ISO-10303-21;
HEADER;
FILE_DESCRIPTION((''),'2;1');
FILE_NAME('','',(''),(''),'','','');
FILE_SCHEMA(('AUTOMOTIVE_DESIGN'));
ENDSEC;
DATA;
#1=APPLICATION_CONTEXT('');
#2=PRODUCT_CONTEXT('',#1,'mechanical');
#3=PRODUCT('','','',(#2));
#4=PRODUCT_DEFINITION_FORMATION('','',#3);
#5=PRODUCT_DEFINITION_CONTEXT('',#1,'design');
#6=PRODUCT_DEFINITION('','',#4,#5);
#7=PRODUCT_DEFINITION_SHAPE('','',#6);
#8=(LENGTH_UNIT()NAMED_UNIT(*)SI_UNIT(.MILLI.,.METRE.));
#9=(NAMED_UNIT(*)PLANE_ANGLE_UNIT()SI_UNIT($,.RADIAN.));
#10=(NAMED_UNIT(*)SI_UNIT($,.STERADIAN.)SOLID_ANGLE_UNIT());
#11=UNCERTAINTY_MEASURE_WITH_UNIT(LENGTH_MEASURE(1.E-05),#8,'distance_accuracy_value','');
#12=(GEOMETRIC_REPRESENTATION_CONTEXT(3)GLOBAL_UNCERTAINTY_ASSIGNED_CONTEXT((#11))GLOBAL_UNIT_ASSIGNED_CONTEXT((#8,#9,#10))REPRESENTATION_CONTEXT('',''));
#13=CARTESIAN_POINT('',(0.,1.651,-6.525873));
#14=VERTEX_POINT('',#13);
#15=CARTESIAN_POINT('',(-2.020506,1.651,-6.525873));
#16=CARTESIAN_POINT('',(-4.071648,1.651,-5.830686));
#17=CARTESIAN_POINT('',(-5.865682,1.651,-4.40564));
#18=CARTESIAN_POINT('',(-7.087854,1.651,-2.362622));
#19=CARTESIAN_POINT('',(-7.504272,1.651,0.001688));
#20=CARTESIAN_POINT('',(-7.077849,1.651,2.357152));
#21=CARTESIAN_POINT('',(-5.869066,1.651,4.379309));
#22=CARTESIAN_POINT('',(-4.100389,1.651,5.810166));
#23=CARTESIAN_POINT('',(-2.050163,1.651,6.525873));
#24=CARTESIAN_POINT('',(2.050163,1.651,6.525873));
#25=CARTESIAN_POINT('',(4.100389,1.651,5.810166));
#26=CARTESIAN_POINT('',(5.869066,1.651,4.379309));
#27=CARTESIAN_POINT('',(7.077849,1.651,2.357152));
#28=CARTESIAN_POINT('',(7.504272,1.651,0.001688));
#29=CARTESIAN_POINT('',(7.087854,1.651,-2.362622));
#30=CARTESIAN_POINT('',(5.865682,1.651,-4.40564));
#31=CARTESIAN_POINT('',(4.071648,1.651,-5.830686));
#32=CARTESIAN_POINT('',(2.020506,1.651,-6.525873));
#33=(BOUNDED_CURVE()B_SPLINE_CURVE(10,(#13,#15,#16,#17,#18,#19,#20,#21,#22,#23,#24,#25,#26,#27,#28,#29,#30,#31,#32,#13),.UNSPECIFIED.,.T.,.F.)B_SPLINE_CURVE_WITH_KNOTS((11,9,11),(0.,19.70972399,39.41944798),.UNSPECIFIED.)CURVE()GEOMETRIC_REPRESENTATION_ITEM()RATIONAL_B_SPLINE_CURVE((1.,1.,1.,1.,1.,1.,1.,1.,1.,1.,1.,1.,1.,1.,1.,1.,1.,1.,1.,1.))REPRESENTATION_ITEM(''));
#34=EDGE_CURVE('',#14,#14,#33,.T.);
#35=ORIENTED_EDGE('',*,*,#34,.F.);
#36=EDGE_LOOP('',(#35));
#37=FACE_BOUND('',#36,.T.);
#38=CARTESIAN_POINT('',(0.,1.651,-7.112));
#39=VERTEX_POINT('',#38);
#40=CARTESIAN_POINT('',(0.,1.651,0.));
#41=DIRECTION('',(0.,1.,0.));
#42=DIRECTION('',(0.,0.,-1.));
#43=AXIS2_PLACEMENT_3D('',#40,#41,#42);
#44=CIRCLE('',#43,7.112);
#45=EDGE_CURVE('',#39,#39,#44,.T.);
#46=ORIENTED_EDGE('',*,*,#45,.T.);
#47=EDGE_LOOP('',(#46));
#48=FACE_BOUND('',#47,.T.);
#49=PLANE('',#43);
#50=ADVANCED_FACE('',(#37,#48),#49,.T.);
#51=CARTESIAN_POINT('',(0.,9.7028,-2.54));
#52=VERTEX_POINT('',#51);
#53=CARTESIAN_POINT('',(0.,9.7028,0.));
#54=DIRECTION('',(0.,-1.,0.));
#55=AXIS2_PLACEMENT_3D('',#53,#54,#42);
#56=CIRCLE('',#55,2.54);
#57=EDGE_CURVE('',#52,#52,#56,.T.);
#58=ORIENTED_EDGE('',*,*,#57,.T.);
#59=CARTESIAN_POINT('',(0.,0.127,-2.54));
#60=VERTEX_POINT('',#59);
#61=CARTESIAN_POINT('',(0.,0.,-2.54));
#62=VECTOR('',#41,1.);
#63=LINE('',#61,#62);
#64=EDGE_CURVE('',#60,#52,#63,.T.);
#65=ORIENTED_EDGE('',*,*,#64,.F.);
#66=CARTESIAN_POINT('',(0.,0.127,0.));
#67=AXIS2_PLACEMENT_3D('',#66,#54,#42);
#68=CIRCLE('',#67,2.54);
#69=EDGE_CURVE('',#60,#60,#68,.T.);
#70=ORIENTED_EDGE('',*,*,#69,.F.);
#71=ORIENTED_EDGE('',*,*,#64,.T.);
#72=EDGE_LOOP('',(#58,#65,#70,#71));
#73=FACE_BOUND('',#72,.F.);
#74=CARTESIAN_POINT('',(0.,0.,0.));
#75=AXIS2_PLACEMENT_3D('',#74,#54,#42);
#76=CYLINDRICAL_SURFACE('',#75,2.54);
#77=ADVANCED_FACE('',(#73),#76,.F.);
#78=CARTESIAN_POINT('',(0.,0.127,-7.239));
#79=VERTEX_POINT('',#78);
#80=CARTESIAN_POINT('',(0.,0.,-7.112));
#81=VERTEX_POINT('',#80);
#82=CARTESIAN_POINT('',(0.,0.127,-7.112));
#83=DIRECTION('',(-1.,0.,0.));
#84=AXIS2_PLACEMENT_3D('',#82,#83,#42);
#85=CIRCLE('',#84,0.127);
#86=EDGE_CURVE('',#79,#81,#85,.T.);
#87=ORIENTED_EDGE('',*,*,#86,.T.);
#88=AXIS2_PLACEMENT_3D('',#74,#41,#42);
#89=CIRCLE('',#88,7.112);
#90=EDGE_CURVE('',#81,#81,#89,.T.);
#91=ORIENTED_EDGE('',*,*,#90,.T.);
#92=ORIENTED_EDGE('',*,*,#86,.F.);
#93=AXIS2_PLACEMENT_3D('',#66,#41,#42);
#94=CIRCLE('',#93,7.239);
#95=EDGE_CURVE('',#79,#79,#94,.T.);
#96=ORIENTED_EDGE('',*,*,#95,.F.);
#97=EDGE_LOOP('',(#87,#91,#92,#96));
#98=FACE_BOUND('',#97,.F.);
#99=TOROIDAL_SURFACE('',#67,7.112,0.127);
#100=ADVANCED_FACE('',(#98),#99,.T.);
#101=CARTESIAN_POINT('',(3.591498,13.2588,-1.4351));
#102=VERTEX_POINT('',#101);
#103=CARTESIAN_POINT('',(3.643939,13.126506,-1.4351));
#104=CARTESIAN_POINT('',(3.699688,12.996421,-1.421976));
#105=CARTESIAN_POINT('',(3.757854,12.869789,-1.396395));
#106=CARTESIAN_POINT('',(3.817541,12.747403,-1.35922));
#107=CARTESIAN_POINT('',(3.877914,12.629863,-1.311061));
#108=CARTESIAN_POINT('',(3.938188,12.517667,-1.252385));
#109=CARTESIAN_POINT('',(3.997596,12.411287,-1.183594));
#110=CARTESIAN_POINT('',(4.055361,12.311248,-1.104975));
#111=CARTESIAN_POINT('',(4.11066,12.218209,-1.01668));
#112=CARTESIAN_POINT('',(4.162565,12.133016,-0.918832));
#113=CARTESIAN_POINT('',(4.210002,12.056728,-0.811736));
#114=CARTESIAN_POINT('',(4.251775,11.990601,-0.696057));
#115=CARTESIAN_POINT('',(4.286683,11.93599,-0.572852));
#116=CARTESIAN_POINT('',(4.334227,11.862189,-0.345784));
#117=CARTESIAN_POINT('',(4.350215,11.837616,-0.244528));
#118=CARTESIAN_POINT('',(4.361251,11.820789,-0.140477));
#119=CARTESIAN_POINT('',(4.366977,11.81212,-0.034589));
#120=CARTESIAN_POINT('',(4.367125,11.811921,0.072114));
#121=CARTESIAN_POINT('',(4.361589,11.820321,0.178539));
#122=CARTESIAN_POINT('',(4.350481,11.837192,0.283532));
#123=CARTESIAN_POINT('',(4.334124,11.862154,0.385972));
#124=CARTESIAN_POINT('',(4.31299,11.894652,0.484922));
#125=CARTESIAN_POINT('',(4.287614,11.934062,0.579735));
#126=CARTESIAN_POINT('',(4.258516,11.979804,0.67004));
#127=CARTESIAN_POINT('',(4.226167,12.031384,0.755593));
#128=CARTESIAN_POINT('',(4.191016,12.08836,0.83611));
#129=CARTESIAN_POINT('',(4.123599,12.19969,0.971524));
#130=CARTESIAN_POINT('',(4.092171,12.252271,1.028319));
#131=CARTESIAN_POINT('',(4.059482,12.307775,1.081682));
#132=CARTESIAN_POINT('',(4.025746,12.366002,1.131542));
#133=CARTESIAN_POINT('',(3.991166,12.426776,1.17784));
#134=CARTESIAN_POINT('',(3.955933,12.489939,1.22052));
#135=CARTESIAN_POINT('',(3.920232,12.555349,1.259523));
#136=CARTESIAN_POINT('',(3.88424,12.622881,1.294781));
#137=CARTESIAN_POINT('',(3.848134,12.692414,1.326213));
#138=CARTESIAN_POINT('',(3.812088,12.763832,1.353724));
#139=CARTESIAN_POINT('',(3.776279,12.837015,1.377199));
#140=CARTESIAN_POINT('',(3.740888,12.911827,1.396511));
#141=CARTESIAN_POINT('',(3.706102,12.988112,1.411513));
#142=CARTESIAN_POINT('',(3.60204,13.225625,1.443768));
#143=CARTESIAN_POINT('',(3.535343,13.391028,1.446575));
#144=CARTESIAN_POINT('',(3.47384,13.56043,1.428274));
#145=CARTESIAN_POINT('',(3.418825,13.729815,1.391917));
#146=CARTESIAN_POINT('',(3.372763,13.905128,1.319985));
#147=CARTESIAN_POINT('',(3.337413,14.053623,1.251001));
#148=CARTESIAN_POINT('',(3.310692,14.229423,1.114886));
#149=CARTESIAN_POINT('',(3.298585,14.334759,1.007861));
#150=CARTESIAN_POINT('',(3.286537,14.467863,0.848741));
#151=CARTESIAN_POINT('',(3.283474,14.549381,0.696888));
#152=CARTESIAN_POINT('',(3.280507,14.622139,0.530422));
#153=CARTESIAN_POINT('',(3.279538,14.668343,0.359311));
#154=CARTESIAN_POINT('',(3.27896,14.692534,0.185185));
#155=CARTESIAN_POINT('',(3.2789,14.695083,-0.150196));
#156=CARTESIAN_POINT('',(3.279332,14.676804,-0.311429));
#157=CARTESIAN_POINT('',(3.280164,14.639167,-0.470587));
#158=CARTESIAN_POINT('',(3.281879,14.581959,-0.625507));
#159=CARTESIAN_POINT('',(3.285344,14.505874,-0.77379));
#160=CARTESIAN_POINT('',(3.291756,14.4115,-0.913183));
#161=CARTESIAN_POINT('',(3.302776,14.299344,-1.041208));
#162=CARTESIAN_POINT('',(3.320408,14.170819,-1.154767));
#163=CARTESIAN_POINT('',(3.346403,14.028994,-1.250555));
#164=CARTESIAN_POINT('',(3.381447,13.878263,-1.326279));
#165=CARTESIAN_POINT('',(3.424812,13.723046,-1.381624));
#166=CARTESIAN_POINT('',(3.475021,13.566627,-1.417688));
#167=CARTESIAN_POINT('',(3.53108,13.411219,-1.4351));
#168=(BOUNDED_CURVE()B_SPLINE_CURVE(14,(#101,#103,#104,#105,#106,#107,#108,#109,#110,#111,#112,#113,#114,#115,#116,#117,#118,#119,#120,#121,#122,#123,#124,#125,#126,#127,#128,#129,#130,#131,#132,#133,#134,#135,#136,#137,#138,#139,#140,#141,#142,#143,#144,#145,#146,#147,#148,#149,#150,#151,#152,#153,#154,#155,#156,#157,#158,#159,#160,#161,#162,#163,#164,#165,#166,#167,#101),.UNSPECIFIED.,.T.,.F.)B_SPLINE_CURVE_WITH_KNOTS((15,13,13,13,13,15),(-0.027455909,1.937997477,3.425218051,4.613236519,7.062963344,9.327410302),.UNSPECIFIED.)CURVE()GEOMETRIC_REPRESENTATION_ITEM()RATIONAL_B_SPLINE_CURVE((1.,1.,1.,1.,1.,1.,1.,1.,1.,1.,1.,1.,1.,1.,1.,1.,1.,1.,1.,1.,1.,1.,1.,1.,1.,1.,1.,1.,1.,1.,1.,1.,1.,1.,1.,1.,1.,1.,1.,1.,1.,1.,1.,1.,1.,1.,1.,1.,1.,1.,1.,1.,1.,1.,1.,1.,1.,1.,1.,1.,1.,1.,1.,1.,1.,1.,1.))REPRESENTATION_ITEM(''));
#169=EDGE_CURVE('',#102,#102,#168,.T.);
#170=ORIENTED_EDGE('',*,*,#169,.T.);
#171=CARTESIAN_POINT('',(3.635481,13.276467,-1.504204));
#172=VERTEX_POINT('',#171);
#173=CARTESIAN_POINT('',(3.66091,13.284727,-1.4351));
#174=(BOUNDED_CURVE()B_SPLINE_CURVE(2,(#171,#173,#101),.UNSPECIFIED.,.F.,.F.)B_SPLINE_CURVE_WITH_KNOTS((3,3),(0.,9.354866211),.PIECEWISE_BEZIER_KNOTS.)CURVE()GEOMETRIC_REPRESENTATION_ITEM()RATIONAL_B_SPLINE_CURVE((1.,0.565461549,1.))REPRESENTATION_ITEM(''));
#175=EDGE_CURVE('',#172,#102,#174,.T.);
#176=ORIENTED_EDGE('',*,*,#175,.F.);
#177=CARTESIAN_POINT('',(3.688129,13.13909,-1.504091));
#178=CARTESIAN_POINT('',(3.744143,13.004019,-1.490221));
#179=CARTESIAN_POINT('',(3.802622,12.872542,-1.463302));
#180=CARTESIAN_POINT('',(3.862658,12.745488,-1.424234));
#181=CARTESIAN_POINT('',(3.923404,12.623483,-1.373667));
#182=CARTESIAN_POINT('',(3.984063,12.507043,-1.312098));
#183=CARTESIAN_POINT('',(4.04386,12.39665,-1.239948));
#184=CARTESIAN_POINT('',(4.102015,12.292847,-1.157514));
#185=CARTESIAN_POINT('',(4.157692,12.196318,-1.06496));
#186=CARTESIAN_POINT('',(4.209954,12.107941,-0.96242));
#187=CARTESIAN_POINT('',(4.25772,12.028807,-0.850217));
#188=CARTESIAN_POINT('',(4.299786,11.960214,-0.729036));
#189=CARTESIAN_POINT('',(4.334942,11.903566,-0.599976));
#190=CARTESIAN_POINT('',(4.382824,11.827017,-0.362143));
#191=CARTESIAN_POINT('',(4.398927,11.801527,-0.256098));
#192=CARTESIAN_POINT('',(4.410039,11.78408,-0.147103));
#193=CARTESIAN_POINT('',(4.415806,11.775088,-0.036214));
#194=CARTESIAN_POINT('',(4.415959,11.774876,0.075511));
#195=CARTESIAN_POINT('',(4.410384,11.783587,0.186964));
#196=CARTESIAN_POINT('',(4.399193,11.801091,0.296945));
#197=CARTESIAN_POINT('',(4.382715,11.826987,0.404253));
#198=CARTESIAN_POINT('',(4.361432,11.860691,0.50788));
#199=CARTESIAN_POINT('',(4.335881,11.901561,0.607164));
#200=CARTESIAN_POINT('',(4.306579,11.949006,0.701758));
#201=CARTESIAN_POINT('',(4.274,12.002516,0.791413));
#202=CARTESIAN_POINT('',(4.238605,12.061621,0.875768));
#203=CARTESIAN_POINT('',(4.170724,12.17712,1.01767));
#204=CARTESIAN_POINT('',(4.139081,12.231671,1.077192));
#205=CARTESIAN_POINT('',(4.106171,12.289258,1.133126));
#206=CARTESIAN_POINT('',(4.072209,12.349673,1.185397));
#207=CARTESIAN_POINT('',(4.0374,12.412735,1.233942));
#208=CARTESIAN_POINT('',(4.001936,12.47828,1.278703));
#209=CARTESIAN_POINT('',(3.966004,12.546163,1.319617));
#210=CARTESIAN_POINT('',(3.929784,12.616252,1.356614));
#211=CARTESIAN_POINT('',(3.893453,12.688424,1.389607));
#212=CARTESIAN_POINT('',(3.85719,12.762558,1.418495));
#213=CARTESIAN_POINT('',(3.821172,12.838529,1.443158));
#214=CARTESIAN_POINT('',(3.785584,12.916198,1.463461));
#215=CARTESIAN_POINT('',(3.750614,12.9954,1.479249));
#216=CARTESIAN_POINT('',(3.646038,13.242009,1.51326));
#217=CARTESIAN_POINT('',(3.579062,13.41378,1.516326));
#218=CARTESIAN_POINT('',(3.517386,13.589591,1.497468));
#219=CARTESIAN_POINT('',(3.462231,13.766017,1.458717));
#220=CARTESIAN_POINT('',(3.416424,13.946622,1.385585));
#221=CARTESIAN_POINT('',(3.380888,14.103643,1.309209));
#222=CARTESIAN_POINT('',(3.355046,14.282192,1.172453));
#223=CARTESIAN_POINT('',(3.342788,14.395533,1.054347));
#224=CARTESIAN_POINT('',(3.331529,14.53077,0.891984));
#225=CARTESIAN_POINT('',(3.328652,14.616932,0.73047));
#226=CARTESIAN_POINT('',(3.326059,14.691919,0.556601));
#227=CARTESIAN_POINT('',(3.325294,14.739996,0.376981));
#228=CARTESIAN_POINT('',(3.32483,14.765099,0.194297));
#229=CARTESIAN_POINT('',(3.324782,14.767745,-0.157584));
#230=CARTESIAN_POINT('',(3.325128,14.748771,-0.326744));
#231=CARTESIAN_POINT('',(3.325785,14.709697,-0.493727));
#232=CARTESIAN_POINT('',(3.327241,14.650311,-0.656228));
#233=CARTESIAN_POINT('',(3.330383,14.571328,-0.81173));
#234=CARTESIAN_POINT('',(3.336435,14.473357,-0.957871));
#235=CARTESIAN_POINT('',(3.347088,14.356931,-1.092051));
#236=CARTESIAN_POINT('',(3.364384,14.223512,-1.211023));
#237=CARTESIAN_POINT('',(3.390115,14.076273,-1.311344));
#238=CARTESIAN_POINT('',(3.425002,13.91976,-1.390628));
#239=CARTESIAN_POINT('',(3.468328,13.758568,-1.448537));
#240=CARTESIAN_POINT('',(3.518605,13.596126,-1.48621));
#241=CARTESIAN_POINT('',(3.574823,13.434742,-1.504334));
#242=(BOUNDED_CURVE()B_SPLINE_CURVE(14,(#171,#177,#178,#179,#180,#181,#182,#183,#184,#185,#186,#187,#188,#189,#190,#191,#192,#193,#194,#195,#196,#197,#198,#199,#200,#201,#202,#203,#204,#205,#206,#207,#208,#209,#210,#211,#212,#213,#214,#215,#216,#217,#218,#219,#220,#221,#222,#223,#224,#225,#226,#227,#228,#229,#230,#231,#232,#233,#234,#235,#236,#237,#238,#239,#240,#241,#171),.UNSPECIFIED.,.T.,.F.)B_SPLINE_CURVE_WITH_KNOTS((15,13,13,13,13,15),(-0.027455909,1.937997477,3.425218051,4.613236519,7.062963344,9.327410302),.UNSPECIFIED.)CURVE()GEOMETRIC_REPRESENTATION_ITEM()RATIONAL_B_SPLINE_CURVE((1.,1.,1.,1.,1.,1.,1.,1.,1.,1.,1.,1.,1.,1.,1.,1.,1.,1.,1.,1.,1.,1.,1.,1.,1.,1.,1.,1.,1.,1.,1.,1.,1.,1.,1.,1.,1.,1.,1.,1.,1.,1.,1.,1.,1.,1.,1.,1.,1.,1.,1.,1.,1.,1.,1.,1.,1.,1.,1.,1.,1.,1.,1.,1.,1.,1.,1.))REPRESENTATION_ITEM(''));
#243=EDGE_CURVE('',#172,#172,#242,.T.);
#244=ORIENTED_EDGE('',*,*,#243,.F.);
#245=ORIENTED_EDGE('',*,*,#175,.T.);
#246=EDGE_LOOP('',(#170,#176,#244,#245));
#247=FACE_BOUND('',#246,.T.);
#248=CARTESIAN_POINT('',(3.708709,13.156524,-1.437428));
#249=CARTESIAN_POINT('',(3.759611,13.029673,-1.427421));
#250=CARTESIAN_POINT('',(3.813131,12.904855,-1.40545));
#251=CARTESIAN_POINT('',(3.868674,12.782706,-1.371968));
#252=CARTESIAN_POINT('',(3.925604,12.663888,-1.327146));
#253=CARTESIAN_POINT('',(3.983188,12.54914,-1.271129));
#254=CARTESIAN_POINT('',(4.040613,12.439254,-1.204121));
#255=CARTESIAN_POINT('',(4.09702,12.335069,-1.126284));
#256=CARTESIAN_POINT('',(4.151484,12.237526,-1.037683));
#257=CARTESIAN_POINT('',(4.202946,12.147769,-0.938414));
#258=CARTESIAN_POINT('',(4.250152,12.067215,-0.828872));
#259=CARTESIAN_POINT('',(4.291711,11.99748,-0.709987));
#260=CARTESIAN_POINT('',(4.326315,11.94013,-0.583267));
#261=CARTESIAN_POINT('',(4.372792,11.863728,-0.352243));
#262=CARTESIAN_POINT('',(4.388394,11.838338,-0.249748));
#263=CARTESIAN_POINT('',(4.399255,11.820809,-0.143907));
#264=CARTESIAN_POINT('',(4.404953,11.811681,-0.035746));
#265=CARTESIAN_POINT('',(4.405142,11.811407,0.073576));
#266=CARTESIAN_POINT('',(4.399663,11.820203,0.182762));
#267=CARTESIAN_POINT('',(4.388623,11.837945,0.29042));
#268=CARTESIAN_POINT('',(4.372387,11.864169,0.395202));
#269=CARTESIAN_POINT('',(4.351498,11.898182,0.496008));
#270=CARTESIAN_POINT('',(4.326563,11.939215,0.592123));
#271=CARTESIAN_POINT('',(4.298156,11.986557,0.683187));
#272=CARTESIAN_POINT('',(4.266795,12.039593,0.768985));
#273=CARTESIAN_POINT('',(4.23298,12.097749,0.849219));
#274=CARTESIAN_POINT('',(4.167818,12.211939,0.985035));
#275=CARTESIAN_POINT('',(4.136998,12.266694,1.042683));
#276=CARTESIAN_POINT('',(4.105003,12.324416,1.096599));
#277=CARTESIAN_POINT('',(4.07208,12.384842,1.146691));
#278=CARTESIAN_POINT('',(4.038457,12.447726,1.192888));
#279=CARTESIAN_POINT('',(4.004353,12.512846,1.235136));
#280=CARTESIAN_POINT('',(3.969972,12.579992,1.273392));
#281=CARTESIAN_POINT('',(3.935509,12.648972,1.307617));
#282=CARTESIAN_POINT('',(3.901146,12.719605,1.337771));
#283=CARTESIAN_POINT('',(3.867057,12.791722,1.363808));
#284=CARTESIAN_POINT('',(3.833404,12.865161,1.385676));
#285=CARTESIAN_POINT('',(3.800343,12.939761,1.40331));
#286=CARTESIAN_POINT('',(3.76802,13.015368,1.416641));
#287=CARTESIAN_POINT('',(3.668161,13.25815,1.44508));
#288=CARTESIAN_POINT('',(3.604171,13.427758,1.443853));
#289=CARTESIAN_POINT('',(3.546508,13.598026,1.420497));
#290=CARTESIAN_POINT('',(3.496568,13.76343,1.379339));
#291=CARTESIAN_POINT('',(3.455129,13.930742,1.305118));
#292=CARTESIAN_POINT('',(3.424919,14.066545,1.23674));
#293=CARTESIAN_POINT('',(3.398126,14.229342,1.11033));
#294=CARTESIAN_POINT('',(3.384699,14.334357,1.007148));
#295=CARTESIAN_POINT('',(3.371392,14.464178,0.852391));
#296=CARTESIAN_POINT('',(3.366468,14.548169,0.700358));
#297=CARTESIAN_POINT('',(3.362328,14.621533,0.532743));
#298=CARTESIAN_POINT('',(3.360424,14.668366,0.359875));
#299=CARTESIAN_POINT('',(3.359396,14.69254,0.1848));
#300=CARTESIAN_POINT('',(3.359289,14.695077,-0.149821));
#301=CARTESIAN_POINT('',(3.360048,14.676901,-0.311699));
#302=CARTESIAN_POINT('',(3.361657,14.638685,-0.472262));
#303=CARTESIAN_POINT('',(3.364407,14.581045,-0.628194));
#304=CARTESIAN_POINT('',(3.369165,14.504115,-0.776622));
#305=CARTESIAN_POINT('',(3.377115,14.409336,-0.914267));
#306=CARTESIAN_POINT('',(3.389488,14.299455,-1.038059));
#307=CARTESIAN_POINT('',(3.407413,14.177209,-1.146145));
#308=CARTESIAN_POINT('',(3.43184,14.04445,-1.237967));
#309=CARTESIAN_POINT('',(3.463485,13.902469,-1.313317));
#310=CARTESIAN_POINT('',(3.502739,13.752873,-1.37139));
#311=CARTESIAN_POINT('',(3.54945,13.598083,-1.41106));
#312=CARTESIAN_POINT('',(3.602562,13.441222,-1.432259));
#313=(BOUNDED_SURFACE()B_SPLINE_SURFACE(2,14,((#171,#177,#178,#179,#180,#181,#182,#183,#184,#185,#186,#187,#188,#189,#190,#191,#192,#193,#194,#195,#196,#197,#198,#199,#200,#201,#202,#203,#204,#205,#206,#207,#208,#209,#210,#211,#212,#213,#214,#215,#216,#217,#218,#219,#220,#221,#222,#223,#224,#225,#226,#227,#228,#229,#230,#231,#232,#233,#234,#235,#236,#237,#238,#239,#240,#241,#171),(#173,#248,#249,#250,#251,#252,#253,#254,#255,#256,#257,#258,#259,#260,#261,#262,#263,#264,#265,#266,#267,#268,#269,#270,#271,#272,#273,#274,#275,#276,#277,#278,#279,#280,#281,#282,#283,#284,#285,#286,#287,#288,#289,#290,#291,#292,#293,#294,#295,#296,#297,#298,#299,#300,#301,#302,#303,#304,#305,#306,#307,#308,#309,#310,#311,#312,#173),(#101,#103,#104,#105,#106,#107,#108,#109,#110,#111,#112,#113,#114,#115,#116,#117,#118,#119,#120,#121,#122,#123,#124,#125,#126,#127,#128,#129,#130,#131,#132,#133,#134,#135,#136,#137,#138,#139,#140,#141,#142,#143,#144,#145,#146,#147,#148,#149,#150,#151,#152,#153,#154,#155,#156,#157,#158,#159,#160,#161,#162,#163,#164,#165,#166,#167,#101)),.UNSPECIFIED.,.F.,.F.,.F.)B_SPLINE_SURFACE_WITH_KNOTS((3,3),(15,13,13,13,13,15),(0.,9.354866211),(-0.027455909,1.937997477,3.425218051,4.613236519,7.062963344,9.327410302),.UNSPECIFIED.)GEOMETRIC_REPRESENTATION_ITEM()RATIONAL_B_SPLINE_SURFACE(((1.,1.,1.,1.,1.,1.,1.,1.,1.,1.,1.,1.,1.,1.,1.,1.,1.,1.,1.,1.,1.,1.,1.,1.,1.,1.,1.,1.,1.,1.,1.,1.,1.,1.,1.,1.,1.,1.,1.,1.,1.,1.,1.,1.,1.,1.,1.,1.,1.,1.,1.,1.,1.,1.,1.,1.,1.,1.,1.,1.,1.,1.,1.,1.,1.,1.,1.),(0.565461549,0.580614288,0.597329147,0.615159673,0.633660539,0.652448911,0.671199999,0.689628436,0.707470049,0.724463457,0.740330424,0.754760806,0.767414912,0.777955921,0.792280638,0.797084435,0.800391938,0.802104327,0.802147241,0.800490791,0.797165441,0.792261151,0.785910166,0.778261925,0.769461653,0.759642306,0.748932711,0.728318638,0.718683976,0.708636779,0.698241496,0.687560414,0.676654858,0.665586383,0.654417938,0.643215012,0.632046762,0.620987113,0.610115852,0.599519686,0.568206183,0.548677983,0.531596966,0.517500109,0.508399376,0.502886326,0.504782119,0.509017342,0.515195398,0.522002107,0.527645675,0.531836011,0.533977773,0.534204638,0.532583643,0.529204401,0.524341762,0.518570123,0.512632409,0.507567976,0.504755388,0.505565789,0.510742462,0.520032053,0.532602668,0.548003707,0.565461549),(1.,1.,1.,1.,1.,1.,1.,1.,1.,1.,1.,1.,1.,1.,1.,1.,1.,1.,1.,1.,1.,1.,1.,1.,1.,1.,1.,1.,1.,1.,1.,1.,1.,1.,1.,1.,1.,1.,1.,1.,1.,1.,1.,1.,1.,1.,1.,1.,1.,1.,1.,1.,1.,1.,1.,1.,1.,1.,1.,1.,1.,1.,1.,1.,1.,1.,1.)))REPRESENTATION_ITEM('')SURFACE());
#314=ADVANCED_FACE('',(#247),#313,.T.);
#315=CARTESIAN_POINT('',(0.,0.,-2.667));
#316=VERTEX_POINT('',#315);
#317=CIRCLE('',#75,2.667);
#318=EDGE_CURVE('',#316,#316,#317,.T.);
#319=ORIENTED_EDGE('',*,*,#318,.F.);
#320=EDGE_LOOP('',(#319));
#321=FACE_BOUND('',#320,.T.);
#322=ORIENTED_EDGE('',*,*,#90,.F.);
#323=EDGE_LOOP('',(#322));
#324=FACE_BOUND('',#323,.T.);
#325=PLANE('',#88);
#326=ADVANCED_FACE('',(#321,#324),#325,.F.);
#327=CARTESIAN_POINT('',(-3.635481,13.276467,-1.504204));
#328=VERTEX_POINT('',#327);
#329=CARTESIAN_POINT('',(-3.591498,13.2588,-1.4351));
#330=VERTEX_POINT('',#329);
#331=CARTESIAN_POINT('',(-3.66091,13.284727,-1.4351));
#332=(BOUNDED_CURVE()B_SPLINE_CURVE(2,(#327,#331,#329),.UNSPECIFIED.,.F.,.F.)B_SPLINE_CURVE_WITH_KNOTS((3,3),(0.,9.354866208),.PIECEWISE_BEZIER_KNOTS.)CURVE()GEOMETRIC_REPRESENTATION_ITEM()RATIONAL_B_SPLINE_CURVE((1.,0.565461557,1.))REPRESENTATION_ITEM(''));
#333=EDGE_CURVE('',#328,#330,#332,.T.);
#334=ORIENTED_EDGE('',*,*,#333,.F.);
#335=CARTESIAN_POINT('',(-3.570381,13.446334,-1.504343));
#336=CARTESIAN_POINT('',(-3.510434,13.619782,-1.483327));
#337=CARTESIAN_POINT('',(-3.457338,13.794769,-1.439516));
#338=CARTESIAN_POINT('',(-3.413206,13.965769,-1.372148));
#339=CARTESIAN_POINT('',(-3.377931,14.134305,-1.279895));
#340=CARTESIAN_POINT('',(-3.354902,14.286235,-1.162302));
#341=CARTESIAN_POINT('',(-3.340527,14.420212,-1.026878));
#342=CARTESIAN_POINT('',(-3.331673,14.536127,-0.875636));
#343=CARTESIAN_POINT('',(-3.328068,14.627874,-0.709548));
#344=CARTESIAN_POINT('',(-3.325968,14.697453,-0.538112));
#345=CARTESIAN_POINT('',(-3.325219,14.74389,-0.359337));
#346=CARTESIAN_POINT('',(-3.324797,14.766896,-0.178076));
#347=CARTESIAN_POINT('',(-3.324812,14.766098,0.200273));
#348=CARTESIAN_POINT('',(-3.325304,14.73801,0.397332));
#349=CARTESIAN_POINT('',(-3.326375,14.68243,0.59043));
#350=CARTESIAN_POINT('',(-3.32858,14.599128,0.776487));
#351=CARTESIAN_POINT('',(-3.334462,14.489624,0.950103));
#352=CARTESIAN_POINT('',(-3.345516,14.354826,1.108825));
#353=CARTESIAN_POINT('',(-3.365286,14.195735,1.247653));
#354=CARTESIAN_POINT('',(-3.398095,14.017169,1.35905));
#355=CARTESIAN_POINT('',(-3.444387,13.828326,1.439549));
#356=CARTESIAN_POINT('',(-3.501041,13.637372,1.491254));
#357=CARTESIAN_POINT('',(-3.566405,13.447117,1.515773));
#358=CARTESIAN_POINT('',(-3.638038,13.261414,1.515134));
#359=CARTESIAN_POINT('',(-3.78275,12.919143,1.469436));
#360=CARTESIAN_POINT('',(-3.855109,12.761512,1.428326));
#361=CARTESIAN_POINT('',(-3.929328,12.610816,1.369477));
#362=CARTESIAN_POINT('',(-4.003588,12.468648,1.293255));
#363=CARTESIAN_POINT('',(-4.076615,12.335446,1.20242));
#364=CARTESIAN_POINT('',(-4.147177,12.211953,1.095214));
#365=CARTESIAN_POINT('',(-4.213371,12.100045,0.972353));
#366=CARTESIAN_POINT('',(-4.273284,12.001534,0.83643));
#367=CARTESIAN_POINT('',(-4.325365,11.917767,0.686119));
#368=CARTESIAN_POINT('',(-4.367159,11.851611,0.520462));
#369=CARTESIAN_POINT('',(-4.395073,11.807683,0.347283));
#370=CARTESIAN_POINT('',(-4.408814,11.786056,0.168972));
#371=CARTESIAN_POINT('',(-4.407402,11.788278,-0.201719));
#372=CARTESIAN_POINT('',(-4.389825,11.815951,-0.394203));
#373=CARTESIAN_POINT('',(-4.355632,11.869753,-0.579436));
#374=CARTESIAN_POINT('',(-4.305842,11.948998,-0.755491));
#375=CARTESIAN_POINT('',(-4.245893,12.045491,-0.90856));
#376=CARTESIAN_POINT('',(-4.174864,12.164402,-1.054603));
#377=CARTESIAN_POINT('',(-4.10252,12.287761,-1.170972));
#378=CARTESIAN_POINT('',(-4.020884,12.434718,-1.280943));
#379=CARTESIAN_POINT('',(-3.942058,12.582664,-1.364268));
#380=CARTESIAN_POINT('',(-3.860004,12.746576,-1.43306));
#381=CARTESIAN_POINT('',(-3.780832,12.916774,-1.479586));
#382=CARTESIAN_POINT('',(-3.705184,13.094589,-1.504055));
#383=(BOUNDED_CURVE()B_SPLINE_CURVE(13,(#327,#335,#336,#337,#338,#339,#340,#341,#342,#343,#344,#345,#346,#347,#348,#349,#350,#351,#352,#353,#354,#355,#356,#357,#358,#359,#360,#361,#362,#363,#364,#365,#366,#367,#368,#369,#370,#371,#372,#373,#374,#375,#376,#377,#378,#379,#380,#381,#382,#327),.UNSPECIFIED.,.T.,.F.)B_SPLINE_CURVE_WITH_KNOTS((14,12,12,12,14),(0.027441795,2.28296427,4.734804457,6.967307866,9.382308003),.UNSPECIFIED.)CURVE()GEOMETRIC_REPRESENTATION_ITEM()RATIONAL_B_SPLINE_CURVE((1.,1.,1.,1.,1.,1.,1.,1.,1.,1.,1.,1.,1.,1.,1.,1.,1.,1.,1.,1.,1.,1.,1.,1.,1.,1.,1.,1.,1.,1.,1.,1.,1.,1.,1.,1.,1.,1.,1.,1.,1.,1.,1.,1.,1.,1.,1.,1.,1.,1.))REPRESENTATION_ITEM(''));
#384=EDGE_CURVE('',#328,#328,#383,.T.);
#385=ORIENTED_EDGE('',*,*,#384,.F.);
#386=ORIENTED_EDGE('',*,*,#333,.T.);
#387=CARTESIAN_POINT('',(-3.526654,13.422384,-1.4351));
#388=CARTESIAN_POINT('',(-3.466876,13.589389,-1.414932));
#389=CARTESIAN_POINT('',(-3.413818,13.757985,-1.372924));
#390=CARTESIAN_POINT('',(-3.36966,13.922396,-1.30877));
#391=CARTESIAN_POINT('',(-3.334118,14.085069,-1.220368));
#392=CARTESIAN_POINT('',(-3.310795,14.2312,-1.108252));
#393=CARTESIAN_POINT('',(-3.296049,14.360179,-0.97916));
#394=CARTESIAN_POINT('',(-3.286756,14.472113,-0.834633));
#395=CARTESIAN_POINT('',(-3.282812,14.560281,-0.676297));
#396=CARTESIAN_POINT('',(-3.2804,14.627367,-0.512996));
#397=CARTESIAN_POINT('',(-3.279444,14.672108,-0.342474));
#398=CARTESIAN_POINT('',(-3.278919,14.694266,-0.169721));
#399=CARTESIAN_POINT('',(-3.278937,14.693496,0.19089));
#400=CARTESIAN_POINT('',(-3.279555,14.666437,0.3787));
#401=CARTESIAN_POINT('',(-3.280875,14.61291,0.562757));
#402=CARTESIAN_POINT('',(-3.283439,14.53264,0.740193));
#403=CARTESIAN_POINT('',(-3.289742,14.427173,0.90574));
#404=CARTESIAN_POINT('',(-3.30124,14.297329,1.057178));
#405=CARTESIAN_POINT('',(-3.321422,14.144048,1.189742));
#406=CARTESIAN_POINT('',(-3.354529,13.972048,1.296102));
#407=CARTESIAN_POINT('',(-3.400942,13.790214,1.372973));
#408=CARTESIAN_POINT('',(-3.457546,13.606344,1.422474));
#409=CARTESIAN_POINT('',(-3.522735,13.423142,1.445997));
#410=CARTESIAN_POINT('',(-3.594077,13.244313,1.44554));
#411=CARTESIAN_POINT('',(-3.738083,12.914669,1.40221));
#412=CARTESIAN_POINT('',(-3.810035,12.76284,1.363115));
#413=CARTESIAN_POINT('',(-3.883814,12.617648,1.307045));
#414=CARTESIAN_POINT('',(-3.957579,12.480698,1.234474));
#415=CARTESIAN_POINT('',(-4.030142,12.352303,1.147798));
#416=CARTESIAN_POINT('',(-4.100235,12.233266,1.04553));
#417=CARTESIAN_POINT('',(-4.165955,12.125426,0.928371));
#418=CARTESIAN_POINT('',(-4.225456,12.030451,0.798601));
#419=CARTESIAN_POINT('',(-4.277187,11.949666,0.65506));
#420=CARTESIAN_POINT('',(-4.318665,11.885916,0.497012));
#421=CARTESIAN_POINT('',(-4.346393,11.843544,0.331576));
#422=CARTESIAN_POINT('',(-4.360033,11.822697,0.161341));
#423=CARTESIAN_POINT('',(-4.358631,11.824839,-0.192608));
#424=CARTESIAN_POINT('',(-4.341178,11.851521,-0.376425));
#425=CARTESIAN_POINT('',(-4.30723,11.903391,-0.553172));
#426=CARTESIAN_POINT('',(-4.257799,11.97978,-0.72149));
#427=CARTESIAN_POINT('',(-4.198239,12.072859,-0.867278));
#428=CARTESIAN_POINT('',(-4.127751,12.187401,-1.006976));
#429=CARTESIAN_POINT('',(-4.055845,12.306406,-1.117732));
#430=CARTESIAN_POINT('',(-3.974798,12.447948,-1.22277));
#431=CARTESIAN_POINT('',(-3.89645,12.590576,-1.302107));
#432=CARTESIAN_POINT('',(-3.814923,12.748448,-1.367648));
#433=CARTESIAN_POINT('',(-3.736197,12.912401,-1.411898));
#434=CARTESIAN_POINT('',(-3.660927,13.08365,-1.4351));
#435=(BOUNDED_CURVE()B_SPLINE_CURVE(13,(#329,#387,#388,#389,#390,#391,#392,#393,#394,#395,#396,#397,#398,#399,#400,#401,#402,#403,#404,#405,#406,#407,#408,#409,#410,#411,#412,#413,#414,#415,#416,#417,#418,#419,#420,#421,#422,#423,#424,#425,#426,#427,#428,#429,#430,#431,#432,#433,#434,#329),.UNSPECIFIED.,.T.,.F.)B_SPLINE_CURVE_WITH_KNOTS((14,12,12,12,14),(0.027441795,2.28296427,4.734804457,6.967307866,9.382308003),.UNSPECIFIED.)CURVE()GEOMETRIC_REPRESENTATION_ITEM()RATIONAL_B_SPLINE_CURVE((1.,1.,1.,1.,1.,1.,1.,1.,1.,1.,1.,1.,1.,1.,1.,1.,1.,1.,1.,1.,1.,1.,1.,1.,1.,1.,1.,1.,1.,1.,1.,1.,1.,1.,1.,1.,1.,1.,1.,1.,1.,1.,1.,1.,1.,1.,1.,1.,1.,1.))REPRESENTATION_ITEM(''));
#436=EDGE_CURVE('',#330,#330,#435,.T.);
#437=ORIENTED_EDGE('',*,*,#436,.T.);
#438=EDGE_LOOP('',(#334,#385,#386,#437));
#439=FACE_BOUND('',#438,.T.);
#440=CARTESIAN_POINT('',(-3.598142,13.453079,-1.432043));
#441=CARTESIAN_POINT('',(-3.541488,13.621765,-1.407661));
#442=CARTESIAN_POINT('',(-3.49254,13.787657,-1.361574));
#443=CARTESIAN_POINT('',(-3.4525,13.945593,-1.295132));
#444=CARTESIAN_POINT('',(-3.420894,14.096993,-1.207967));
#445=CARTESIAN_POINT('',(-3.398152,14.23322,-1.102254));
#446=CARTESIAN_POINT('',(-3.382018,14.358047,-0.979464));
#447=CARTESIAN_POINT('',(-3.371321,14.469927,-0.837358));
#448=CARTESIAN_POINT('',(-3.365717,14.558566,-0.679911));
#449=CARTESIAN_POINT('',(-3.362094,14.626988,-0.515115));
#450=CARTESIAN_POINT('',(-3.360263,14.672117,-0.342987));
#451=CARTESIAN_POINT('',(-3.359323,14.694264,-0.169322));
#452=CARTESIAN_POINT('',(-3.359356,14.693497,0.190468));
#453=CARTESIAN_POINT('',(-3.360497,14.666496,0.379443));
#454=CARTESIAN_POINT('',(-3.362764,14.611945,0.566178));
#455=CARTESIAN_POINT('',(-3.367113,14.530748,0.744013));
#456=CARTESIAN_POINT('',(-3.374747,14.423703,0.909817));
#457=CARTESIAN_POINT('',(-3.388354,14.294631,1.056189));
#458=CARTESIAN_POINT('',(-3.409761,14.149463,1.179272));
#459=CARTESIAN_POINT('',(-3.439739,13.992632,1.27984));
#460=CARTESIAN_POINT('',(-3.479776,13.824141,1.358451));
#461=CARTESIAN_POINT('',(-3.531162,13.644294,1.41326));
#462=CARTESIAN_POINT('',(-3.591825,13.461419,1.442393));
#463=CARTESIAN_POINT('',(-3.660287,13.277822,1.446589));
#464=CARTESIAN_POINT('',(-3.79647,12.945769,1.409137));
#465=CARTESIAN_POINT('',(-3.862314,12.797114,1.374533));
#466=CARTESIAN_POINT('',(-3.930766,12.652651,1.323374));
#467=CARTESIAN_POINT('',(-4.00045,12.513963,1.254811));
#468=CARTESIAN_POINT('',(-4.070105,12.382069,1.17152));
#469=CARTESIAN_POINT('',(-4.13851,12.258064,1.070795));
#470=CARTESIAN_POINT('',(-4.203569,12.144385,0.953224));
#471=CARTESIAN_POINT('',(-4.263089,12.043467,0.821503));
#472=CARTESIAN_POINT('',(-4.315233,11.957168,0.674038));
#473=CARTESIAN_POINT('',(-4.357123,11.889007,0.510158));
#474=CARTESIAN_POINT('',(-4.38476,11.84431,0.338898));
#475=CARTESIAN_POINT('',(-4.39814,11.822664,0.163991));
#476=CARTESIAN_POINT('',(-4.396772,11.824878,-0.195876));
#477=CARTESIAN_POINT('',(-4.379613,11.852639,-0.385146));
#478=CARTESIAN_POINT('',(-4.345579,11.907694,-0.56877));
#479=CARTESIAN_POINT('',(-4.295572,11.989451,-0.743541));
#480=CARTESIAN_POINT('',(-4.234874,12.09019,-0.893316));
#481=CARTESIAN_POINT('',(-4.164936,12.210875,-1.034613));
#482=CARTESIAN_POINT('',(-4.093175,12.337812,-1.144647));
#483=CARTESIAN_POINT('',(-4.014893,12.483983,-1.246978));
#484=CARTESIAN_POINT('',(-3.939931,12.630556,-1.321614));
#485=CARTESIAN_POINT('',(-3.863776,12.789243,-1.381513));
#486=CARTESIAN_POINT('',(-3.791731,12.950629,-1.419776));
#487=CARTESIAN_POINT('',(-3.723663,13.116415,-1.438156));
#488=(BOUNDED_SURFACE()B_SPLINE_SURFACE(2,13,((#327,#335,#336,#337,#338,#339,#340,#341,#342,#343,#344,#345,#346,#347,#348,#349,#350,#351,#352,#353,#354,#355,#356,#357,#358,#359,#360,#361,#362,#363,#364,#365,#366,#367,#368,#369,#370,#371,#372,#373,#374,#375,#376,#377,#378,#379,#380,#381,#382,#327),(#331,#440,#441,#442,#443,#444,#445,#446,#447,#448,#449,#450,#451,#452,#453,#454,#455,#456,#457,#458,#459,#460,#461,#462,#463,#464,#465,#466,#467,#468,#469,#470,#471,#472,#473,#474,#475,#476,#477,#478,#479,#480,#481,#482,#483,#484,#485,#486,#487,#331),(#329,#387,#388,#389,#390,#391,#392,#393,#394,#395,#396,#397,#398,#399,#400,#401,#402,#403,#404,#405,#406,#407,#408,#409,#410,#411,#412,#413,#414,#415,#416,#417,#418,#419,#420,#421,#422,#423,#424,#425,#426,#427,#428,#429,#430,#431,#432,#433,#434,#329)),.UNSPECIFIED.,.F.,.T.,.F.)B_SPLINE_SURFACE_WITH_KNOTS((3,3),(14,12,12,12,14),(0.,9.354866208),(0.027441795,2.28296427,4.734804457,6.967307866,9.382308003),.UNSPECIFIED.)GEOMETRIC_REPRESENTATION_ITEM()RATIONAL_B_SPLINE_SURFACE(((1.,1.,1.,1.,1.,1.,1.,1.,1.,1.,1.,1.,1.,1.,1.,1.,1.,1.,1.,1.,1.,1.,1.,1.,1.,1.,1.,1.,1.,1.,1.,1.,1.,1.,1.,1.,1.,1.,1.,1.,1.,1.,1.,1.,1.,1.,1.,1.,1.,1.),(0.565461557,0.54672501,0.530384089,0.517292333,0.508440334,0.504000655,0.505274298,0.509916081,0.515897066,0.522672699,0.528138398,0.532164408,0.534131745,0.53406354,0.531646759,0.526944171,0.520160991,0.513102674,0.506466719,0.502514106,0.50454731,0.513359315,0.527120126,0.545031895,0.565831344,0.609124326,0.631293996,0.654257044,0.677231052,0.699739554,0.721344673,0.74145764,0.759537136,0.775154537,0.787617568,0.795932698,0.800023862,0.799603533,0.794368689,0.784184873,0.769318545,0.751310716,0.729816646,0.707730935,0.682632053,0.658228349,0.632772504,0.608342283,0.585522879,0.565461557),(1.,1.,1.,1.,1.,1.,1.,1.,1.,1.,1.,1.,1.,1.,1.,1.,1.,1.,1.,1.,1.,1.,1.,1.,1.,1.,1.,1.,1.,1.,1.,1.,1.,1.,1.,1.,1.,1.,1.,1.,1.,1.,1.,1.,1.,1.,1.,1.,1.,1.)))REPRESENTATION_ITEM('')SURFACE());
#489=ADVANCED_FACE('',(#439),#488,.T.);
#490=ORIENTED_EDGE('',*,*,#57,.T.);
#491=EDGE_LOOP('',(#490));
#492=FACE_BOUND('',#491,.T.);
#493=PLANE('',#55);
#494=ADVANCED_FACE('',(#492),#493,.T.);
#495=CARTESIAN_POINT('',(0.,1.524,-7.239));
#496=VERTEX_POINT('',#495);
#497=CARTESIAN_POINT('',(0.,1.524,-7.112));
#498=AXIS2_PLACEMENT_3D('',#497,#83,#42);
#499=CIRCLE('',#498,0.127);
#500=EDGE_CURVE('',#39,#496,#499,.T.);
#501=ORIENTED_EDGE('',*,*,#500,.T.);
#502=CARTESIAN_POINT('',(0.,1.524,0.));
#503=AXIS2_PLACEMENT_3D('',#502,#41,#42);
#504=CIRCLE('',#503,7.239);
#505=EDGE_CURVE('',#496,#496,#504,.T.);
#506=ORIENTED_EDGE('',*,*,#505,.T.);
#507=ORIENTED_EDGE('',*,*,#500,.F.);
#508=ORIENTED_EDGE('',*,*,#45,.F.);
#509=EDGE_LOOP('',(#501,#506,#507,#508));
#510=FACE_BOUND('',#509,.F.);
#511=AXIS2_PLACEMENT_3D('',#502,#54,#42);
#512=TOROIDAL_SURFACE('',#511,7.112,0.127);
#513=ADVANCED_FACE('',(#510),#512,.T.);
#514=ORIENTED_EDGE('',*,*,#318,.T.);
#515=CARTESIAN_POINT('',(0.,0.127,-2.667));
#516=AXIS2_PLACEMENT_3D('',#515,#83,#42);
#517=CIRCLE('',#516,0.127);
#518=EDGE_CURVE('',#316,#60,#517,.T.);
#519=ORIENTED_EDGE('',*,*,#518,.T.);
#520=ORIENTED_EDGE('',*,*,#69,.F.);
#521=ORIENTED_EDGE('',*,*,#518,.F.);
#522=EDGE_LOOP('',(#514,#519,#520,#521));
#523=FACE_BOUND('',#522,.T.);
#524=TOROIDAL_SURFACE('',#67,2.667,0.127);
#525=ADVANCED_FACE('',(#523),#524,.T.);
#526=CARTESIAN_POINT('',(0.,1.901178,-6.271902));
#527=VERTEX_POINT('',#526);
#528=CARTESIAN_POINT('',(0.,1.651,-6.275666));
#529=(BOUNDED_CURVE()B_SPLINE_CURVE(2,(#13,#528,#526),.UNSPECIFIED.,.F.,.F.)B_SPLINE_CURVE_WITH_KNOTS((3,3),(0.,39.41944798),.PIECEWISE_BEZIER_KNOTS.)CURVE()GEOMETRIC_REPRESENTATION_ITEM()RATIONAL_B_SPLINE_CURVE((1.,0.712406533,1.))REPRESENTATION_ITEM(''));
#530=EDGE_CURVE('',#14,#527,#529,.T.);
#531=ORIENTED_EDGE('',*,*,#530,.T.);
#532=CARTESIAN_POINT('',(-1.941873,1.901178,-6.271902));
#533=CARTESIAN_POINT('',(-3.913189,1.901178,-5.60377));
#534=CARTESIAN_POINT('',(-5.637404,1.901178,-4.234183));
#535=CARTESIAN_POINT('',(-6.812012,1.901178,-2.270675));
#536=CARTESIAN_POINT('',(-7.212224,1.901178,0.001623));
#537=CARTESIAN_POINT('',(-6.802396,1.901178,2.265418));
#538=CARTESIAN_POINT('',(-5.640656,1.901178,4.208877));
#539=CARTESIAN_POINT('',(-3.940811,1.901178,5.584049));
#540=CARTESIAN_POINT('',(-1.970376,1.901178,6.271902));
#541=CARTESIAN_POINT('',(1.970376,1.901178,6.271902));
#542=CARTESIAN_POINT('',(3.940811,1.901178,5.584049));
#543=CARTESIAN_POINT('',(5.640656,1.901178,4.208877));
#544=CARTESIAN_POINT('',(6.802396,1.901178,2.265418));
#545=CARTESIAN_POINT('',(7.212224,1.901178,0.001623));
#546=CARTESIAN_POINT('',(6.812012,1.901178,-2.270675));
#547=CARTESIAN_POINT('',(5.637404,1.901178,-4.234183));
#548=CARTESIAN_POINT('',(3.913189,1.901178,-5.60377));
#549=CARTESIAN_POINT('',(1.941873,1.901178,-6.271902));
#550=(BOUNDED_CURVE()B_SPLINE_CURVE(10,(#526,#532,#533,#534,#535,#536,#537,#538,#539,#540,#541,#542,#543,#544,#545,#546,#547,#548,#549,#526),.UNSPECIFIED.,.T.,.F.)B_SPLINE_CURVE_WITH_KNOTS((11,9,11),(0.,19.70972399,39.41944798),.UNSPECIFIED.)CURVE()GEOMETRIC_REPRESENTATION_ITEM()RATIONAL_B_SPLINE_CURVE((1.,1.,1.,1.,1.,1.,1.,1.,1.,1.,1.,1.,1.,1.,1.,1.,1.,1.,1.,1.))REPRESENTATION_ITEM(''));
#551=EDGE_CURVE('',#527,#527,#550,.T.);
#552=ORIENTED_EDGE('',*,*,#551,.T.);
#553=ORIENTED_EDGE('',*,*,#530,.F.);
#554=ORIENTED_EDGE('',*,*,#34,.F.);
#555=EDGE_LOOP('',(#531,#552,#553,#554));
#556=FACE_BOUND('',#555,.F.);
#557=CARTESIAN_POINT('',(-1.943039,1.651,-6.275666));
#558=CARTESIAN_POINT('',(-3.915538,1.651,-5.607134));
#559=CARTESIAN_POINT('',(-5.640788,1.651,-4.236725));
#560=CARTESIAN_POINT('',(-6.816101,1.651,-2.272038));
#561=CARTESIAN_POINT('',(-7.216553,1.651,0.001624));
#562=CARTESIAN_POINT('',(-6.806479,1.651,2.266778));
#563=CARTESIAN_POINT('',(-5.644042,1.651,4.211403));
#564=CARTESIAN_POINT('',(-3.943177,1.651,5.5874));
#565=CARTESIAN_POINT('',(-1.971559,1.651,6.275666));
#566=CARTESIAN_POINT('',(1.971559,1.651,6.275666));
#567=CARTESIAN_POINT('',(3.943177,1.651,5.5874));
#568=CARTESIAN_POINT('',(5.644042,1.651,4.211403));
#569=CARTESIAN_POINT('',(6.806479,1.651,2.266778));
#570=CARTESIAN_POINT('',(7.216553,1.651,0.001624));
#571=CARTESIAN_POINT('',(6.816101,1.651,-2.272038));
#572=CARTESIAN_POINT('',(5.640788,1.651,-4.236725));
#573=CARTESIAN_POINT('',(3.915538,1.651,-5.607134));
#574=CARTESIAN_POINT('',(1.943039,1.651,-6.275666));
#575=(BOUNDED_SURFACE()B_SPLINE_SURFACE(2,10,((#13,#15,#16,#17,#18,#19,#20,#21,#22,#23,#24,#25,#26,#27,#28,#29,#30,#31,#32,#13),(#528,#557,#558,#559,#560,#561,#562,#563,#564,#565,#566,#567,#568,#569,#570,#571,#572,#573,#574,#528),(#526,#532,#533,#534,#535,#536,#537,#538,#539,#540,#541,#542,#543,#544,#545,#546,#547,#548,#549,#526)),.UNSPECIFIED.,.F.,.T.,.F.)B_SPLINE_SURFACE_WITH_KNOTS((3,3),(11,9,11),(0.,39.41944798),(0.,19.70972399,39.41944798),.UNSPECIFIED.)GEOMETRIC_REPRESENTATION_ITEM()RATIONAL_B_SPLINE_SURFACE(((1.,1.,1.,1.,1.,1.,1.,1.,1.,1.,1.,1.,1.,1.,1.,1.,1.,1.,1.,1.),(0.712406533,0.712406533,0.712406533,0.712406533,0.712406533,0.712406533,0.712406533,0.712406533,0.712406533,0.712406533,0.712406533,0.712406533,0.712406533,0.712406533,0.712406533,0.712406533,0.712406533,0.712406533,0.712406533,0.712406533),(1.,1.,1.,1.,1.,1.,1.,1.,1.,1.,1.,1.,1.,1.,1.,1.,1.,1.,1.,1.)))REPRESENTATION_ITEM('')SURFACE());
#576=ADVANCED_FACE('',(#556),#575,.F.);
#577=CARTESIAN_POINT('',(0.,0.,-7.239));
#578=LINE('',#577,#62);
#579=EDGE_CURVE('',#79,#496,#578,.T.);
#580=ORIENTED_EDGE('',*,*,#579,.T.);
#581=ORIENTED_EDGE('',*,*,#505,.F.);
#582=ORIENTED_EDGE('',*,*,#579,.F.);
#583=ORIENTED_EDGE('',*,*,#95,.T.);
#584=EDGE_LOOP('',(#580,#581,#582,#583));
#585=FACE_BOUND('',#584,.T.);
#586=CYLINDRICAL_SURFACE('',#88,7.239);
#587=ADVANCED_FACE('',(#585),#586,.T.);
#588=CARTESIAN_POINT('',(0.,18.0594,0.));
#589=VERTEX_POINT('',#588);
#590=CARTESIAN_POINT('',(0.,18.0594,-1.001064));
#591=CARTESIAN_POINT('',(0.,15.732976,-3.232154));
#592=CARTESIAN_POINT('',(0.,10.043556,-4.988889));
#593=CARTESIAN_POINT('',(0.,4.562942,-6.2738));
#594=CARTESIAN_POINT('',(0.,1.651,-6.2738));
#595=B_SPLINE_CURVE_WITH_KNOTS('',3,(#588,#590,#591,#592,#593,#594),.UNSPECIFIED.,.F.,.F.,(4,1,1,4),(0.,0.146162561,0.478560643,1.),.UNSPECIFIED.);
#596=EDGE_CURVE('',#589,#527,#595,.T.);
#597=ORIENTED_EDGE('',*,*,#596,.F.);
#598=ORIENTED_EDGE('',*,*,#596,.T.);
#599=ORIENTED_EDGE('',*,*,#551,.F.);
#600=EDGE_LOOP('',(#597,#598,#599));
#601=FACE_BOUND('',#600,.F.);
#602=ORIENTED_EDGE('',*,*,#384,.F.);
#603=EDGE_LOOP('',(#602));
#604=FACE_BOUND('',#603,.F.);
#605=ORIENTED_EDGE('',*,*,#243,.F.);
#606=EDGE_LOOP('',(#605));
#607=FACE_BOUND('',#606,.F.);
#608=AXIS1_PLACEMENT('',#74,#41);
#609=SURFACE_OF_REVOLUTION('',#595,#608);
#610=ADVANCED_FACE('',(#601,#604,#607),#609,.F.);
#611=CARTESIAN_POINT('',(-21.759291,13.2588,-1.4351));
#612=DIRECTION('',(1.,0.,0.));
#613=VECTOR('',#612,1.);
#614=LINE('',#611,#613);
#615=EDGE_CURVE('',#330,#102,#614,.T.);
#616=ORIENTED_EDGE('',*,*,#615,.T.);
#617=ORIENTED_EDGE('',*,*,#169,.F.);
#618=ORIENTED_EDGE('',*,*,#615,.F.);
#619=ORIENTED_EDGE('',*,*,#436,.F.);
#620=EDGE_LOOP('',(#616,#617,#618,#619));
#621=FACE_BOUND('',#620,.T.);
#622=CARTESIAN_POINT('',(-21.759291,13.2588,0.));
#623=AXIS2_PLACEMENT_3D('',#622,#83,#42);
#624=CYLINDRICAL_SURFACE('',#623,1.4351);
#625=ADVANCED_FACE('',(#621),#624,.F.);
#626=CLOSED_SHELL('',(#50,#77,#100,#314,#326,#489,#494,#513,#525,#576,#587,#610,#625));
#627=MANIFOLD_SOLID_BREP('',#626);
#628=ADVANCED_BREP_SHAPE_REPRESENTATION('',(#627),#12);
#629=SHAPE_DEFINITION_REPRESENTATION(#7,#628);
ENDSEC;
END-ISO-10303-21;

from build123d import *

# Parameters (mm, degrees)
FILLET1_R               = 0.254
CUT_EXTRUDE1_DEPTH      = 21.759291338
CUT_EXTRUDE1_DEPTH_BACK = 21.759291338
SKETCH2_R               = 1.4351
FILLET2_R               = 0.0508
SKETCH3_R               = 2.54
CUT_EXTRUDE2_DEPTH      = 9.7028
FILLET3_R               = 0.127


with BuildPart() as part:
    # Sketch1 → Revolve1 (revolve)
    with BuildSketch(Plane.XY, mode=Mode.PRIVATE) as revolve1_sk:
        with BuildLine():
            Line((7.239, 1.651), (6.2738, 1.651))
            add(Edge.make_bspline(
                [(0, 18.0594), (1.001064055, 18.0594), (3.232153943, 15.732976491), (4.98888916, 10.043556143), (6.2738, 4.562941892), (6.2738, 1.651)],
                knots=[0, 0, 0, 0, 0.146162561, 0.478560643, 1, 1, 1, 1], degree=3))
            Line((0, 18.0594), (0, 1.651))
            Line((0, 1.651), (0, 0))
            Line((0, 0), (7.239, 0))
            Line((7.239, 0), (7.239, 1.651))
        make_face()
    revolve(revolve1_sk.sketch.rotate(Axis((0, 0, 0), (0, 1, 0)), 90), axis=Axis((0, 0, 0), (0, 1, 0)))

    # Fillet1
    fillet1_edges = [part.edges().sort_by_distance(p)[0] for p in [
        (0, 1.651, 6.2738),
    ]]
    fillet(fillet1_edges, radius=FILLET1_R)

    # Sketch2 → Cut-Extrude1 (cut, two sides: drawn at the far end of the back side and taken through both)
    with BuildSketch(Plane(origin=(0, 0, 0), x_dir=(0, 0, -1), z_dir=(1, 0, 0)).offset(-CUT_EXTRUDE1_DEPTH_BACK)):
        with Locations((0, 13.2588)):
            Circle(SKETCH2_R)
    extrude(amount=CUT_EXTRUDE1_DEPTH + CUT_EXTRUDE1_DEPTH_BACK, mode=Mode.SUBTRACT)

    # Fillet2
    fillet2_edges = [part.edges().sort_by_distance(p)[0] for p in [
        (3.7044256, 13.170038335, 1.432352392),
        (-3.704425611, 13.170038344, 1.432352347),
    ]]
    fillet(fillet2_edges, radius=FILLET2_R)

    # Sketch3 → Cut-Extrude2 (cut)
    with BuildSketch(Plane.XZ):
        with Locations(Location((0, 0, 0), (0, 0, 270))):
            Circle(SKETCH3_R)
    extrude(amount=-CUT_EXTRUDE2_DEPTH, mode=Mode.SUBTRACT)

    # Fillet3
    fillet3_edges = [part.edges().sort_by_distance(p)[0] for p in [
        (0, 0, 2.54),
        (0, 1.651, 7.239),
        (0, 0, 7.239),
    ]]
    fillet(fillet3_edges, radius=FILLET3_R)


solid = part.part
